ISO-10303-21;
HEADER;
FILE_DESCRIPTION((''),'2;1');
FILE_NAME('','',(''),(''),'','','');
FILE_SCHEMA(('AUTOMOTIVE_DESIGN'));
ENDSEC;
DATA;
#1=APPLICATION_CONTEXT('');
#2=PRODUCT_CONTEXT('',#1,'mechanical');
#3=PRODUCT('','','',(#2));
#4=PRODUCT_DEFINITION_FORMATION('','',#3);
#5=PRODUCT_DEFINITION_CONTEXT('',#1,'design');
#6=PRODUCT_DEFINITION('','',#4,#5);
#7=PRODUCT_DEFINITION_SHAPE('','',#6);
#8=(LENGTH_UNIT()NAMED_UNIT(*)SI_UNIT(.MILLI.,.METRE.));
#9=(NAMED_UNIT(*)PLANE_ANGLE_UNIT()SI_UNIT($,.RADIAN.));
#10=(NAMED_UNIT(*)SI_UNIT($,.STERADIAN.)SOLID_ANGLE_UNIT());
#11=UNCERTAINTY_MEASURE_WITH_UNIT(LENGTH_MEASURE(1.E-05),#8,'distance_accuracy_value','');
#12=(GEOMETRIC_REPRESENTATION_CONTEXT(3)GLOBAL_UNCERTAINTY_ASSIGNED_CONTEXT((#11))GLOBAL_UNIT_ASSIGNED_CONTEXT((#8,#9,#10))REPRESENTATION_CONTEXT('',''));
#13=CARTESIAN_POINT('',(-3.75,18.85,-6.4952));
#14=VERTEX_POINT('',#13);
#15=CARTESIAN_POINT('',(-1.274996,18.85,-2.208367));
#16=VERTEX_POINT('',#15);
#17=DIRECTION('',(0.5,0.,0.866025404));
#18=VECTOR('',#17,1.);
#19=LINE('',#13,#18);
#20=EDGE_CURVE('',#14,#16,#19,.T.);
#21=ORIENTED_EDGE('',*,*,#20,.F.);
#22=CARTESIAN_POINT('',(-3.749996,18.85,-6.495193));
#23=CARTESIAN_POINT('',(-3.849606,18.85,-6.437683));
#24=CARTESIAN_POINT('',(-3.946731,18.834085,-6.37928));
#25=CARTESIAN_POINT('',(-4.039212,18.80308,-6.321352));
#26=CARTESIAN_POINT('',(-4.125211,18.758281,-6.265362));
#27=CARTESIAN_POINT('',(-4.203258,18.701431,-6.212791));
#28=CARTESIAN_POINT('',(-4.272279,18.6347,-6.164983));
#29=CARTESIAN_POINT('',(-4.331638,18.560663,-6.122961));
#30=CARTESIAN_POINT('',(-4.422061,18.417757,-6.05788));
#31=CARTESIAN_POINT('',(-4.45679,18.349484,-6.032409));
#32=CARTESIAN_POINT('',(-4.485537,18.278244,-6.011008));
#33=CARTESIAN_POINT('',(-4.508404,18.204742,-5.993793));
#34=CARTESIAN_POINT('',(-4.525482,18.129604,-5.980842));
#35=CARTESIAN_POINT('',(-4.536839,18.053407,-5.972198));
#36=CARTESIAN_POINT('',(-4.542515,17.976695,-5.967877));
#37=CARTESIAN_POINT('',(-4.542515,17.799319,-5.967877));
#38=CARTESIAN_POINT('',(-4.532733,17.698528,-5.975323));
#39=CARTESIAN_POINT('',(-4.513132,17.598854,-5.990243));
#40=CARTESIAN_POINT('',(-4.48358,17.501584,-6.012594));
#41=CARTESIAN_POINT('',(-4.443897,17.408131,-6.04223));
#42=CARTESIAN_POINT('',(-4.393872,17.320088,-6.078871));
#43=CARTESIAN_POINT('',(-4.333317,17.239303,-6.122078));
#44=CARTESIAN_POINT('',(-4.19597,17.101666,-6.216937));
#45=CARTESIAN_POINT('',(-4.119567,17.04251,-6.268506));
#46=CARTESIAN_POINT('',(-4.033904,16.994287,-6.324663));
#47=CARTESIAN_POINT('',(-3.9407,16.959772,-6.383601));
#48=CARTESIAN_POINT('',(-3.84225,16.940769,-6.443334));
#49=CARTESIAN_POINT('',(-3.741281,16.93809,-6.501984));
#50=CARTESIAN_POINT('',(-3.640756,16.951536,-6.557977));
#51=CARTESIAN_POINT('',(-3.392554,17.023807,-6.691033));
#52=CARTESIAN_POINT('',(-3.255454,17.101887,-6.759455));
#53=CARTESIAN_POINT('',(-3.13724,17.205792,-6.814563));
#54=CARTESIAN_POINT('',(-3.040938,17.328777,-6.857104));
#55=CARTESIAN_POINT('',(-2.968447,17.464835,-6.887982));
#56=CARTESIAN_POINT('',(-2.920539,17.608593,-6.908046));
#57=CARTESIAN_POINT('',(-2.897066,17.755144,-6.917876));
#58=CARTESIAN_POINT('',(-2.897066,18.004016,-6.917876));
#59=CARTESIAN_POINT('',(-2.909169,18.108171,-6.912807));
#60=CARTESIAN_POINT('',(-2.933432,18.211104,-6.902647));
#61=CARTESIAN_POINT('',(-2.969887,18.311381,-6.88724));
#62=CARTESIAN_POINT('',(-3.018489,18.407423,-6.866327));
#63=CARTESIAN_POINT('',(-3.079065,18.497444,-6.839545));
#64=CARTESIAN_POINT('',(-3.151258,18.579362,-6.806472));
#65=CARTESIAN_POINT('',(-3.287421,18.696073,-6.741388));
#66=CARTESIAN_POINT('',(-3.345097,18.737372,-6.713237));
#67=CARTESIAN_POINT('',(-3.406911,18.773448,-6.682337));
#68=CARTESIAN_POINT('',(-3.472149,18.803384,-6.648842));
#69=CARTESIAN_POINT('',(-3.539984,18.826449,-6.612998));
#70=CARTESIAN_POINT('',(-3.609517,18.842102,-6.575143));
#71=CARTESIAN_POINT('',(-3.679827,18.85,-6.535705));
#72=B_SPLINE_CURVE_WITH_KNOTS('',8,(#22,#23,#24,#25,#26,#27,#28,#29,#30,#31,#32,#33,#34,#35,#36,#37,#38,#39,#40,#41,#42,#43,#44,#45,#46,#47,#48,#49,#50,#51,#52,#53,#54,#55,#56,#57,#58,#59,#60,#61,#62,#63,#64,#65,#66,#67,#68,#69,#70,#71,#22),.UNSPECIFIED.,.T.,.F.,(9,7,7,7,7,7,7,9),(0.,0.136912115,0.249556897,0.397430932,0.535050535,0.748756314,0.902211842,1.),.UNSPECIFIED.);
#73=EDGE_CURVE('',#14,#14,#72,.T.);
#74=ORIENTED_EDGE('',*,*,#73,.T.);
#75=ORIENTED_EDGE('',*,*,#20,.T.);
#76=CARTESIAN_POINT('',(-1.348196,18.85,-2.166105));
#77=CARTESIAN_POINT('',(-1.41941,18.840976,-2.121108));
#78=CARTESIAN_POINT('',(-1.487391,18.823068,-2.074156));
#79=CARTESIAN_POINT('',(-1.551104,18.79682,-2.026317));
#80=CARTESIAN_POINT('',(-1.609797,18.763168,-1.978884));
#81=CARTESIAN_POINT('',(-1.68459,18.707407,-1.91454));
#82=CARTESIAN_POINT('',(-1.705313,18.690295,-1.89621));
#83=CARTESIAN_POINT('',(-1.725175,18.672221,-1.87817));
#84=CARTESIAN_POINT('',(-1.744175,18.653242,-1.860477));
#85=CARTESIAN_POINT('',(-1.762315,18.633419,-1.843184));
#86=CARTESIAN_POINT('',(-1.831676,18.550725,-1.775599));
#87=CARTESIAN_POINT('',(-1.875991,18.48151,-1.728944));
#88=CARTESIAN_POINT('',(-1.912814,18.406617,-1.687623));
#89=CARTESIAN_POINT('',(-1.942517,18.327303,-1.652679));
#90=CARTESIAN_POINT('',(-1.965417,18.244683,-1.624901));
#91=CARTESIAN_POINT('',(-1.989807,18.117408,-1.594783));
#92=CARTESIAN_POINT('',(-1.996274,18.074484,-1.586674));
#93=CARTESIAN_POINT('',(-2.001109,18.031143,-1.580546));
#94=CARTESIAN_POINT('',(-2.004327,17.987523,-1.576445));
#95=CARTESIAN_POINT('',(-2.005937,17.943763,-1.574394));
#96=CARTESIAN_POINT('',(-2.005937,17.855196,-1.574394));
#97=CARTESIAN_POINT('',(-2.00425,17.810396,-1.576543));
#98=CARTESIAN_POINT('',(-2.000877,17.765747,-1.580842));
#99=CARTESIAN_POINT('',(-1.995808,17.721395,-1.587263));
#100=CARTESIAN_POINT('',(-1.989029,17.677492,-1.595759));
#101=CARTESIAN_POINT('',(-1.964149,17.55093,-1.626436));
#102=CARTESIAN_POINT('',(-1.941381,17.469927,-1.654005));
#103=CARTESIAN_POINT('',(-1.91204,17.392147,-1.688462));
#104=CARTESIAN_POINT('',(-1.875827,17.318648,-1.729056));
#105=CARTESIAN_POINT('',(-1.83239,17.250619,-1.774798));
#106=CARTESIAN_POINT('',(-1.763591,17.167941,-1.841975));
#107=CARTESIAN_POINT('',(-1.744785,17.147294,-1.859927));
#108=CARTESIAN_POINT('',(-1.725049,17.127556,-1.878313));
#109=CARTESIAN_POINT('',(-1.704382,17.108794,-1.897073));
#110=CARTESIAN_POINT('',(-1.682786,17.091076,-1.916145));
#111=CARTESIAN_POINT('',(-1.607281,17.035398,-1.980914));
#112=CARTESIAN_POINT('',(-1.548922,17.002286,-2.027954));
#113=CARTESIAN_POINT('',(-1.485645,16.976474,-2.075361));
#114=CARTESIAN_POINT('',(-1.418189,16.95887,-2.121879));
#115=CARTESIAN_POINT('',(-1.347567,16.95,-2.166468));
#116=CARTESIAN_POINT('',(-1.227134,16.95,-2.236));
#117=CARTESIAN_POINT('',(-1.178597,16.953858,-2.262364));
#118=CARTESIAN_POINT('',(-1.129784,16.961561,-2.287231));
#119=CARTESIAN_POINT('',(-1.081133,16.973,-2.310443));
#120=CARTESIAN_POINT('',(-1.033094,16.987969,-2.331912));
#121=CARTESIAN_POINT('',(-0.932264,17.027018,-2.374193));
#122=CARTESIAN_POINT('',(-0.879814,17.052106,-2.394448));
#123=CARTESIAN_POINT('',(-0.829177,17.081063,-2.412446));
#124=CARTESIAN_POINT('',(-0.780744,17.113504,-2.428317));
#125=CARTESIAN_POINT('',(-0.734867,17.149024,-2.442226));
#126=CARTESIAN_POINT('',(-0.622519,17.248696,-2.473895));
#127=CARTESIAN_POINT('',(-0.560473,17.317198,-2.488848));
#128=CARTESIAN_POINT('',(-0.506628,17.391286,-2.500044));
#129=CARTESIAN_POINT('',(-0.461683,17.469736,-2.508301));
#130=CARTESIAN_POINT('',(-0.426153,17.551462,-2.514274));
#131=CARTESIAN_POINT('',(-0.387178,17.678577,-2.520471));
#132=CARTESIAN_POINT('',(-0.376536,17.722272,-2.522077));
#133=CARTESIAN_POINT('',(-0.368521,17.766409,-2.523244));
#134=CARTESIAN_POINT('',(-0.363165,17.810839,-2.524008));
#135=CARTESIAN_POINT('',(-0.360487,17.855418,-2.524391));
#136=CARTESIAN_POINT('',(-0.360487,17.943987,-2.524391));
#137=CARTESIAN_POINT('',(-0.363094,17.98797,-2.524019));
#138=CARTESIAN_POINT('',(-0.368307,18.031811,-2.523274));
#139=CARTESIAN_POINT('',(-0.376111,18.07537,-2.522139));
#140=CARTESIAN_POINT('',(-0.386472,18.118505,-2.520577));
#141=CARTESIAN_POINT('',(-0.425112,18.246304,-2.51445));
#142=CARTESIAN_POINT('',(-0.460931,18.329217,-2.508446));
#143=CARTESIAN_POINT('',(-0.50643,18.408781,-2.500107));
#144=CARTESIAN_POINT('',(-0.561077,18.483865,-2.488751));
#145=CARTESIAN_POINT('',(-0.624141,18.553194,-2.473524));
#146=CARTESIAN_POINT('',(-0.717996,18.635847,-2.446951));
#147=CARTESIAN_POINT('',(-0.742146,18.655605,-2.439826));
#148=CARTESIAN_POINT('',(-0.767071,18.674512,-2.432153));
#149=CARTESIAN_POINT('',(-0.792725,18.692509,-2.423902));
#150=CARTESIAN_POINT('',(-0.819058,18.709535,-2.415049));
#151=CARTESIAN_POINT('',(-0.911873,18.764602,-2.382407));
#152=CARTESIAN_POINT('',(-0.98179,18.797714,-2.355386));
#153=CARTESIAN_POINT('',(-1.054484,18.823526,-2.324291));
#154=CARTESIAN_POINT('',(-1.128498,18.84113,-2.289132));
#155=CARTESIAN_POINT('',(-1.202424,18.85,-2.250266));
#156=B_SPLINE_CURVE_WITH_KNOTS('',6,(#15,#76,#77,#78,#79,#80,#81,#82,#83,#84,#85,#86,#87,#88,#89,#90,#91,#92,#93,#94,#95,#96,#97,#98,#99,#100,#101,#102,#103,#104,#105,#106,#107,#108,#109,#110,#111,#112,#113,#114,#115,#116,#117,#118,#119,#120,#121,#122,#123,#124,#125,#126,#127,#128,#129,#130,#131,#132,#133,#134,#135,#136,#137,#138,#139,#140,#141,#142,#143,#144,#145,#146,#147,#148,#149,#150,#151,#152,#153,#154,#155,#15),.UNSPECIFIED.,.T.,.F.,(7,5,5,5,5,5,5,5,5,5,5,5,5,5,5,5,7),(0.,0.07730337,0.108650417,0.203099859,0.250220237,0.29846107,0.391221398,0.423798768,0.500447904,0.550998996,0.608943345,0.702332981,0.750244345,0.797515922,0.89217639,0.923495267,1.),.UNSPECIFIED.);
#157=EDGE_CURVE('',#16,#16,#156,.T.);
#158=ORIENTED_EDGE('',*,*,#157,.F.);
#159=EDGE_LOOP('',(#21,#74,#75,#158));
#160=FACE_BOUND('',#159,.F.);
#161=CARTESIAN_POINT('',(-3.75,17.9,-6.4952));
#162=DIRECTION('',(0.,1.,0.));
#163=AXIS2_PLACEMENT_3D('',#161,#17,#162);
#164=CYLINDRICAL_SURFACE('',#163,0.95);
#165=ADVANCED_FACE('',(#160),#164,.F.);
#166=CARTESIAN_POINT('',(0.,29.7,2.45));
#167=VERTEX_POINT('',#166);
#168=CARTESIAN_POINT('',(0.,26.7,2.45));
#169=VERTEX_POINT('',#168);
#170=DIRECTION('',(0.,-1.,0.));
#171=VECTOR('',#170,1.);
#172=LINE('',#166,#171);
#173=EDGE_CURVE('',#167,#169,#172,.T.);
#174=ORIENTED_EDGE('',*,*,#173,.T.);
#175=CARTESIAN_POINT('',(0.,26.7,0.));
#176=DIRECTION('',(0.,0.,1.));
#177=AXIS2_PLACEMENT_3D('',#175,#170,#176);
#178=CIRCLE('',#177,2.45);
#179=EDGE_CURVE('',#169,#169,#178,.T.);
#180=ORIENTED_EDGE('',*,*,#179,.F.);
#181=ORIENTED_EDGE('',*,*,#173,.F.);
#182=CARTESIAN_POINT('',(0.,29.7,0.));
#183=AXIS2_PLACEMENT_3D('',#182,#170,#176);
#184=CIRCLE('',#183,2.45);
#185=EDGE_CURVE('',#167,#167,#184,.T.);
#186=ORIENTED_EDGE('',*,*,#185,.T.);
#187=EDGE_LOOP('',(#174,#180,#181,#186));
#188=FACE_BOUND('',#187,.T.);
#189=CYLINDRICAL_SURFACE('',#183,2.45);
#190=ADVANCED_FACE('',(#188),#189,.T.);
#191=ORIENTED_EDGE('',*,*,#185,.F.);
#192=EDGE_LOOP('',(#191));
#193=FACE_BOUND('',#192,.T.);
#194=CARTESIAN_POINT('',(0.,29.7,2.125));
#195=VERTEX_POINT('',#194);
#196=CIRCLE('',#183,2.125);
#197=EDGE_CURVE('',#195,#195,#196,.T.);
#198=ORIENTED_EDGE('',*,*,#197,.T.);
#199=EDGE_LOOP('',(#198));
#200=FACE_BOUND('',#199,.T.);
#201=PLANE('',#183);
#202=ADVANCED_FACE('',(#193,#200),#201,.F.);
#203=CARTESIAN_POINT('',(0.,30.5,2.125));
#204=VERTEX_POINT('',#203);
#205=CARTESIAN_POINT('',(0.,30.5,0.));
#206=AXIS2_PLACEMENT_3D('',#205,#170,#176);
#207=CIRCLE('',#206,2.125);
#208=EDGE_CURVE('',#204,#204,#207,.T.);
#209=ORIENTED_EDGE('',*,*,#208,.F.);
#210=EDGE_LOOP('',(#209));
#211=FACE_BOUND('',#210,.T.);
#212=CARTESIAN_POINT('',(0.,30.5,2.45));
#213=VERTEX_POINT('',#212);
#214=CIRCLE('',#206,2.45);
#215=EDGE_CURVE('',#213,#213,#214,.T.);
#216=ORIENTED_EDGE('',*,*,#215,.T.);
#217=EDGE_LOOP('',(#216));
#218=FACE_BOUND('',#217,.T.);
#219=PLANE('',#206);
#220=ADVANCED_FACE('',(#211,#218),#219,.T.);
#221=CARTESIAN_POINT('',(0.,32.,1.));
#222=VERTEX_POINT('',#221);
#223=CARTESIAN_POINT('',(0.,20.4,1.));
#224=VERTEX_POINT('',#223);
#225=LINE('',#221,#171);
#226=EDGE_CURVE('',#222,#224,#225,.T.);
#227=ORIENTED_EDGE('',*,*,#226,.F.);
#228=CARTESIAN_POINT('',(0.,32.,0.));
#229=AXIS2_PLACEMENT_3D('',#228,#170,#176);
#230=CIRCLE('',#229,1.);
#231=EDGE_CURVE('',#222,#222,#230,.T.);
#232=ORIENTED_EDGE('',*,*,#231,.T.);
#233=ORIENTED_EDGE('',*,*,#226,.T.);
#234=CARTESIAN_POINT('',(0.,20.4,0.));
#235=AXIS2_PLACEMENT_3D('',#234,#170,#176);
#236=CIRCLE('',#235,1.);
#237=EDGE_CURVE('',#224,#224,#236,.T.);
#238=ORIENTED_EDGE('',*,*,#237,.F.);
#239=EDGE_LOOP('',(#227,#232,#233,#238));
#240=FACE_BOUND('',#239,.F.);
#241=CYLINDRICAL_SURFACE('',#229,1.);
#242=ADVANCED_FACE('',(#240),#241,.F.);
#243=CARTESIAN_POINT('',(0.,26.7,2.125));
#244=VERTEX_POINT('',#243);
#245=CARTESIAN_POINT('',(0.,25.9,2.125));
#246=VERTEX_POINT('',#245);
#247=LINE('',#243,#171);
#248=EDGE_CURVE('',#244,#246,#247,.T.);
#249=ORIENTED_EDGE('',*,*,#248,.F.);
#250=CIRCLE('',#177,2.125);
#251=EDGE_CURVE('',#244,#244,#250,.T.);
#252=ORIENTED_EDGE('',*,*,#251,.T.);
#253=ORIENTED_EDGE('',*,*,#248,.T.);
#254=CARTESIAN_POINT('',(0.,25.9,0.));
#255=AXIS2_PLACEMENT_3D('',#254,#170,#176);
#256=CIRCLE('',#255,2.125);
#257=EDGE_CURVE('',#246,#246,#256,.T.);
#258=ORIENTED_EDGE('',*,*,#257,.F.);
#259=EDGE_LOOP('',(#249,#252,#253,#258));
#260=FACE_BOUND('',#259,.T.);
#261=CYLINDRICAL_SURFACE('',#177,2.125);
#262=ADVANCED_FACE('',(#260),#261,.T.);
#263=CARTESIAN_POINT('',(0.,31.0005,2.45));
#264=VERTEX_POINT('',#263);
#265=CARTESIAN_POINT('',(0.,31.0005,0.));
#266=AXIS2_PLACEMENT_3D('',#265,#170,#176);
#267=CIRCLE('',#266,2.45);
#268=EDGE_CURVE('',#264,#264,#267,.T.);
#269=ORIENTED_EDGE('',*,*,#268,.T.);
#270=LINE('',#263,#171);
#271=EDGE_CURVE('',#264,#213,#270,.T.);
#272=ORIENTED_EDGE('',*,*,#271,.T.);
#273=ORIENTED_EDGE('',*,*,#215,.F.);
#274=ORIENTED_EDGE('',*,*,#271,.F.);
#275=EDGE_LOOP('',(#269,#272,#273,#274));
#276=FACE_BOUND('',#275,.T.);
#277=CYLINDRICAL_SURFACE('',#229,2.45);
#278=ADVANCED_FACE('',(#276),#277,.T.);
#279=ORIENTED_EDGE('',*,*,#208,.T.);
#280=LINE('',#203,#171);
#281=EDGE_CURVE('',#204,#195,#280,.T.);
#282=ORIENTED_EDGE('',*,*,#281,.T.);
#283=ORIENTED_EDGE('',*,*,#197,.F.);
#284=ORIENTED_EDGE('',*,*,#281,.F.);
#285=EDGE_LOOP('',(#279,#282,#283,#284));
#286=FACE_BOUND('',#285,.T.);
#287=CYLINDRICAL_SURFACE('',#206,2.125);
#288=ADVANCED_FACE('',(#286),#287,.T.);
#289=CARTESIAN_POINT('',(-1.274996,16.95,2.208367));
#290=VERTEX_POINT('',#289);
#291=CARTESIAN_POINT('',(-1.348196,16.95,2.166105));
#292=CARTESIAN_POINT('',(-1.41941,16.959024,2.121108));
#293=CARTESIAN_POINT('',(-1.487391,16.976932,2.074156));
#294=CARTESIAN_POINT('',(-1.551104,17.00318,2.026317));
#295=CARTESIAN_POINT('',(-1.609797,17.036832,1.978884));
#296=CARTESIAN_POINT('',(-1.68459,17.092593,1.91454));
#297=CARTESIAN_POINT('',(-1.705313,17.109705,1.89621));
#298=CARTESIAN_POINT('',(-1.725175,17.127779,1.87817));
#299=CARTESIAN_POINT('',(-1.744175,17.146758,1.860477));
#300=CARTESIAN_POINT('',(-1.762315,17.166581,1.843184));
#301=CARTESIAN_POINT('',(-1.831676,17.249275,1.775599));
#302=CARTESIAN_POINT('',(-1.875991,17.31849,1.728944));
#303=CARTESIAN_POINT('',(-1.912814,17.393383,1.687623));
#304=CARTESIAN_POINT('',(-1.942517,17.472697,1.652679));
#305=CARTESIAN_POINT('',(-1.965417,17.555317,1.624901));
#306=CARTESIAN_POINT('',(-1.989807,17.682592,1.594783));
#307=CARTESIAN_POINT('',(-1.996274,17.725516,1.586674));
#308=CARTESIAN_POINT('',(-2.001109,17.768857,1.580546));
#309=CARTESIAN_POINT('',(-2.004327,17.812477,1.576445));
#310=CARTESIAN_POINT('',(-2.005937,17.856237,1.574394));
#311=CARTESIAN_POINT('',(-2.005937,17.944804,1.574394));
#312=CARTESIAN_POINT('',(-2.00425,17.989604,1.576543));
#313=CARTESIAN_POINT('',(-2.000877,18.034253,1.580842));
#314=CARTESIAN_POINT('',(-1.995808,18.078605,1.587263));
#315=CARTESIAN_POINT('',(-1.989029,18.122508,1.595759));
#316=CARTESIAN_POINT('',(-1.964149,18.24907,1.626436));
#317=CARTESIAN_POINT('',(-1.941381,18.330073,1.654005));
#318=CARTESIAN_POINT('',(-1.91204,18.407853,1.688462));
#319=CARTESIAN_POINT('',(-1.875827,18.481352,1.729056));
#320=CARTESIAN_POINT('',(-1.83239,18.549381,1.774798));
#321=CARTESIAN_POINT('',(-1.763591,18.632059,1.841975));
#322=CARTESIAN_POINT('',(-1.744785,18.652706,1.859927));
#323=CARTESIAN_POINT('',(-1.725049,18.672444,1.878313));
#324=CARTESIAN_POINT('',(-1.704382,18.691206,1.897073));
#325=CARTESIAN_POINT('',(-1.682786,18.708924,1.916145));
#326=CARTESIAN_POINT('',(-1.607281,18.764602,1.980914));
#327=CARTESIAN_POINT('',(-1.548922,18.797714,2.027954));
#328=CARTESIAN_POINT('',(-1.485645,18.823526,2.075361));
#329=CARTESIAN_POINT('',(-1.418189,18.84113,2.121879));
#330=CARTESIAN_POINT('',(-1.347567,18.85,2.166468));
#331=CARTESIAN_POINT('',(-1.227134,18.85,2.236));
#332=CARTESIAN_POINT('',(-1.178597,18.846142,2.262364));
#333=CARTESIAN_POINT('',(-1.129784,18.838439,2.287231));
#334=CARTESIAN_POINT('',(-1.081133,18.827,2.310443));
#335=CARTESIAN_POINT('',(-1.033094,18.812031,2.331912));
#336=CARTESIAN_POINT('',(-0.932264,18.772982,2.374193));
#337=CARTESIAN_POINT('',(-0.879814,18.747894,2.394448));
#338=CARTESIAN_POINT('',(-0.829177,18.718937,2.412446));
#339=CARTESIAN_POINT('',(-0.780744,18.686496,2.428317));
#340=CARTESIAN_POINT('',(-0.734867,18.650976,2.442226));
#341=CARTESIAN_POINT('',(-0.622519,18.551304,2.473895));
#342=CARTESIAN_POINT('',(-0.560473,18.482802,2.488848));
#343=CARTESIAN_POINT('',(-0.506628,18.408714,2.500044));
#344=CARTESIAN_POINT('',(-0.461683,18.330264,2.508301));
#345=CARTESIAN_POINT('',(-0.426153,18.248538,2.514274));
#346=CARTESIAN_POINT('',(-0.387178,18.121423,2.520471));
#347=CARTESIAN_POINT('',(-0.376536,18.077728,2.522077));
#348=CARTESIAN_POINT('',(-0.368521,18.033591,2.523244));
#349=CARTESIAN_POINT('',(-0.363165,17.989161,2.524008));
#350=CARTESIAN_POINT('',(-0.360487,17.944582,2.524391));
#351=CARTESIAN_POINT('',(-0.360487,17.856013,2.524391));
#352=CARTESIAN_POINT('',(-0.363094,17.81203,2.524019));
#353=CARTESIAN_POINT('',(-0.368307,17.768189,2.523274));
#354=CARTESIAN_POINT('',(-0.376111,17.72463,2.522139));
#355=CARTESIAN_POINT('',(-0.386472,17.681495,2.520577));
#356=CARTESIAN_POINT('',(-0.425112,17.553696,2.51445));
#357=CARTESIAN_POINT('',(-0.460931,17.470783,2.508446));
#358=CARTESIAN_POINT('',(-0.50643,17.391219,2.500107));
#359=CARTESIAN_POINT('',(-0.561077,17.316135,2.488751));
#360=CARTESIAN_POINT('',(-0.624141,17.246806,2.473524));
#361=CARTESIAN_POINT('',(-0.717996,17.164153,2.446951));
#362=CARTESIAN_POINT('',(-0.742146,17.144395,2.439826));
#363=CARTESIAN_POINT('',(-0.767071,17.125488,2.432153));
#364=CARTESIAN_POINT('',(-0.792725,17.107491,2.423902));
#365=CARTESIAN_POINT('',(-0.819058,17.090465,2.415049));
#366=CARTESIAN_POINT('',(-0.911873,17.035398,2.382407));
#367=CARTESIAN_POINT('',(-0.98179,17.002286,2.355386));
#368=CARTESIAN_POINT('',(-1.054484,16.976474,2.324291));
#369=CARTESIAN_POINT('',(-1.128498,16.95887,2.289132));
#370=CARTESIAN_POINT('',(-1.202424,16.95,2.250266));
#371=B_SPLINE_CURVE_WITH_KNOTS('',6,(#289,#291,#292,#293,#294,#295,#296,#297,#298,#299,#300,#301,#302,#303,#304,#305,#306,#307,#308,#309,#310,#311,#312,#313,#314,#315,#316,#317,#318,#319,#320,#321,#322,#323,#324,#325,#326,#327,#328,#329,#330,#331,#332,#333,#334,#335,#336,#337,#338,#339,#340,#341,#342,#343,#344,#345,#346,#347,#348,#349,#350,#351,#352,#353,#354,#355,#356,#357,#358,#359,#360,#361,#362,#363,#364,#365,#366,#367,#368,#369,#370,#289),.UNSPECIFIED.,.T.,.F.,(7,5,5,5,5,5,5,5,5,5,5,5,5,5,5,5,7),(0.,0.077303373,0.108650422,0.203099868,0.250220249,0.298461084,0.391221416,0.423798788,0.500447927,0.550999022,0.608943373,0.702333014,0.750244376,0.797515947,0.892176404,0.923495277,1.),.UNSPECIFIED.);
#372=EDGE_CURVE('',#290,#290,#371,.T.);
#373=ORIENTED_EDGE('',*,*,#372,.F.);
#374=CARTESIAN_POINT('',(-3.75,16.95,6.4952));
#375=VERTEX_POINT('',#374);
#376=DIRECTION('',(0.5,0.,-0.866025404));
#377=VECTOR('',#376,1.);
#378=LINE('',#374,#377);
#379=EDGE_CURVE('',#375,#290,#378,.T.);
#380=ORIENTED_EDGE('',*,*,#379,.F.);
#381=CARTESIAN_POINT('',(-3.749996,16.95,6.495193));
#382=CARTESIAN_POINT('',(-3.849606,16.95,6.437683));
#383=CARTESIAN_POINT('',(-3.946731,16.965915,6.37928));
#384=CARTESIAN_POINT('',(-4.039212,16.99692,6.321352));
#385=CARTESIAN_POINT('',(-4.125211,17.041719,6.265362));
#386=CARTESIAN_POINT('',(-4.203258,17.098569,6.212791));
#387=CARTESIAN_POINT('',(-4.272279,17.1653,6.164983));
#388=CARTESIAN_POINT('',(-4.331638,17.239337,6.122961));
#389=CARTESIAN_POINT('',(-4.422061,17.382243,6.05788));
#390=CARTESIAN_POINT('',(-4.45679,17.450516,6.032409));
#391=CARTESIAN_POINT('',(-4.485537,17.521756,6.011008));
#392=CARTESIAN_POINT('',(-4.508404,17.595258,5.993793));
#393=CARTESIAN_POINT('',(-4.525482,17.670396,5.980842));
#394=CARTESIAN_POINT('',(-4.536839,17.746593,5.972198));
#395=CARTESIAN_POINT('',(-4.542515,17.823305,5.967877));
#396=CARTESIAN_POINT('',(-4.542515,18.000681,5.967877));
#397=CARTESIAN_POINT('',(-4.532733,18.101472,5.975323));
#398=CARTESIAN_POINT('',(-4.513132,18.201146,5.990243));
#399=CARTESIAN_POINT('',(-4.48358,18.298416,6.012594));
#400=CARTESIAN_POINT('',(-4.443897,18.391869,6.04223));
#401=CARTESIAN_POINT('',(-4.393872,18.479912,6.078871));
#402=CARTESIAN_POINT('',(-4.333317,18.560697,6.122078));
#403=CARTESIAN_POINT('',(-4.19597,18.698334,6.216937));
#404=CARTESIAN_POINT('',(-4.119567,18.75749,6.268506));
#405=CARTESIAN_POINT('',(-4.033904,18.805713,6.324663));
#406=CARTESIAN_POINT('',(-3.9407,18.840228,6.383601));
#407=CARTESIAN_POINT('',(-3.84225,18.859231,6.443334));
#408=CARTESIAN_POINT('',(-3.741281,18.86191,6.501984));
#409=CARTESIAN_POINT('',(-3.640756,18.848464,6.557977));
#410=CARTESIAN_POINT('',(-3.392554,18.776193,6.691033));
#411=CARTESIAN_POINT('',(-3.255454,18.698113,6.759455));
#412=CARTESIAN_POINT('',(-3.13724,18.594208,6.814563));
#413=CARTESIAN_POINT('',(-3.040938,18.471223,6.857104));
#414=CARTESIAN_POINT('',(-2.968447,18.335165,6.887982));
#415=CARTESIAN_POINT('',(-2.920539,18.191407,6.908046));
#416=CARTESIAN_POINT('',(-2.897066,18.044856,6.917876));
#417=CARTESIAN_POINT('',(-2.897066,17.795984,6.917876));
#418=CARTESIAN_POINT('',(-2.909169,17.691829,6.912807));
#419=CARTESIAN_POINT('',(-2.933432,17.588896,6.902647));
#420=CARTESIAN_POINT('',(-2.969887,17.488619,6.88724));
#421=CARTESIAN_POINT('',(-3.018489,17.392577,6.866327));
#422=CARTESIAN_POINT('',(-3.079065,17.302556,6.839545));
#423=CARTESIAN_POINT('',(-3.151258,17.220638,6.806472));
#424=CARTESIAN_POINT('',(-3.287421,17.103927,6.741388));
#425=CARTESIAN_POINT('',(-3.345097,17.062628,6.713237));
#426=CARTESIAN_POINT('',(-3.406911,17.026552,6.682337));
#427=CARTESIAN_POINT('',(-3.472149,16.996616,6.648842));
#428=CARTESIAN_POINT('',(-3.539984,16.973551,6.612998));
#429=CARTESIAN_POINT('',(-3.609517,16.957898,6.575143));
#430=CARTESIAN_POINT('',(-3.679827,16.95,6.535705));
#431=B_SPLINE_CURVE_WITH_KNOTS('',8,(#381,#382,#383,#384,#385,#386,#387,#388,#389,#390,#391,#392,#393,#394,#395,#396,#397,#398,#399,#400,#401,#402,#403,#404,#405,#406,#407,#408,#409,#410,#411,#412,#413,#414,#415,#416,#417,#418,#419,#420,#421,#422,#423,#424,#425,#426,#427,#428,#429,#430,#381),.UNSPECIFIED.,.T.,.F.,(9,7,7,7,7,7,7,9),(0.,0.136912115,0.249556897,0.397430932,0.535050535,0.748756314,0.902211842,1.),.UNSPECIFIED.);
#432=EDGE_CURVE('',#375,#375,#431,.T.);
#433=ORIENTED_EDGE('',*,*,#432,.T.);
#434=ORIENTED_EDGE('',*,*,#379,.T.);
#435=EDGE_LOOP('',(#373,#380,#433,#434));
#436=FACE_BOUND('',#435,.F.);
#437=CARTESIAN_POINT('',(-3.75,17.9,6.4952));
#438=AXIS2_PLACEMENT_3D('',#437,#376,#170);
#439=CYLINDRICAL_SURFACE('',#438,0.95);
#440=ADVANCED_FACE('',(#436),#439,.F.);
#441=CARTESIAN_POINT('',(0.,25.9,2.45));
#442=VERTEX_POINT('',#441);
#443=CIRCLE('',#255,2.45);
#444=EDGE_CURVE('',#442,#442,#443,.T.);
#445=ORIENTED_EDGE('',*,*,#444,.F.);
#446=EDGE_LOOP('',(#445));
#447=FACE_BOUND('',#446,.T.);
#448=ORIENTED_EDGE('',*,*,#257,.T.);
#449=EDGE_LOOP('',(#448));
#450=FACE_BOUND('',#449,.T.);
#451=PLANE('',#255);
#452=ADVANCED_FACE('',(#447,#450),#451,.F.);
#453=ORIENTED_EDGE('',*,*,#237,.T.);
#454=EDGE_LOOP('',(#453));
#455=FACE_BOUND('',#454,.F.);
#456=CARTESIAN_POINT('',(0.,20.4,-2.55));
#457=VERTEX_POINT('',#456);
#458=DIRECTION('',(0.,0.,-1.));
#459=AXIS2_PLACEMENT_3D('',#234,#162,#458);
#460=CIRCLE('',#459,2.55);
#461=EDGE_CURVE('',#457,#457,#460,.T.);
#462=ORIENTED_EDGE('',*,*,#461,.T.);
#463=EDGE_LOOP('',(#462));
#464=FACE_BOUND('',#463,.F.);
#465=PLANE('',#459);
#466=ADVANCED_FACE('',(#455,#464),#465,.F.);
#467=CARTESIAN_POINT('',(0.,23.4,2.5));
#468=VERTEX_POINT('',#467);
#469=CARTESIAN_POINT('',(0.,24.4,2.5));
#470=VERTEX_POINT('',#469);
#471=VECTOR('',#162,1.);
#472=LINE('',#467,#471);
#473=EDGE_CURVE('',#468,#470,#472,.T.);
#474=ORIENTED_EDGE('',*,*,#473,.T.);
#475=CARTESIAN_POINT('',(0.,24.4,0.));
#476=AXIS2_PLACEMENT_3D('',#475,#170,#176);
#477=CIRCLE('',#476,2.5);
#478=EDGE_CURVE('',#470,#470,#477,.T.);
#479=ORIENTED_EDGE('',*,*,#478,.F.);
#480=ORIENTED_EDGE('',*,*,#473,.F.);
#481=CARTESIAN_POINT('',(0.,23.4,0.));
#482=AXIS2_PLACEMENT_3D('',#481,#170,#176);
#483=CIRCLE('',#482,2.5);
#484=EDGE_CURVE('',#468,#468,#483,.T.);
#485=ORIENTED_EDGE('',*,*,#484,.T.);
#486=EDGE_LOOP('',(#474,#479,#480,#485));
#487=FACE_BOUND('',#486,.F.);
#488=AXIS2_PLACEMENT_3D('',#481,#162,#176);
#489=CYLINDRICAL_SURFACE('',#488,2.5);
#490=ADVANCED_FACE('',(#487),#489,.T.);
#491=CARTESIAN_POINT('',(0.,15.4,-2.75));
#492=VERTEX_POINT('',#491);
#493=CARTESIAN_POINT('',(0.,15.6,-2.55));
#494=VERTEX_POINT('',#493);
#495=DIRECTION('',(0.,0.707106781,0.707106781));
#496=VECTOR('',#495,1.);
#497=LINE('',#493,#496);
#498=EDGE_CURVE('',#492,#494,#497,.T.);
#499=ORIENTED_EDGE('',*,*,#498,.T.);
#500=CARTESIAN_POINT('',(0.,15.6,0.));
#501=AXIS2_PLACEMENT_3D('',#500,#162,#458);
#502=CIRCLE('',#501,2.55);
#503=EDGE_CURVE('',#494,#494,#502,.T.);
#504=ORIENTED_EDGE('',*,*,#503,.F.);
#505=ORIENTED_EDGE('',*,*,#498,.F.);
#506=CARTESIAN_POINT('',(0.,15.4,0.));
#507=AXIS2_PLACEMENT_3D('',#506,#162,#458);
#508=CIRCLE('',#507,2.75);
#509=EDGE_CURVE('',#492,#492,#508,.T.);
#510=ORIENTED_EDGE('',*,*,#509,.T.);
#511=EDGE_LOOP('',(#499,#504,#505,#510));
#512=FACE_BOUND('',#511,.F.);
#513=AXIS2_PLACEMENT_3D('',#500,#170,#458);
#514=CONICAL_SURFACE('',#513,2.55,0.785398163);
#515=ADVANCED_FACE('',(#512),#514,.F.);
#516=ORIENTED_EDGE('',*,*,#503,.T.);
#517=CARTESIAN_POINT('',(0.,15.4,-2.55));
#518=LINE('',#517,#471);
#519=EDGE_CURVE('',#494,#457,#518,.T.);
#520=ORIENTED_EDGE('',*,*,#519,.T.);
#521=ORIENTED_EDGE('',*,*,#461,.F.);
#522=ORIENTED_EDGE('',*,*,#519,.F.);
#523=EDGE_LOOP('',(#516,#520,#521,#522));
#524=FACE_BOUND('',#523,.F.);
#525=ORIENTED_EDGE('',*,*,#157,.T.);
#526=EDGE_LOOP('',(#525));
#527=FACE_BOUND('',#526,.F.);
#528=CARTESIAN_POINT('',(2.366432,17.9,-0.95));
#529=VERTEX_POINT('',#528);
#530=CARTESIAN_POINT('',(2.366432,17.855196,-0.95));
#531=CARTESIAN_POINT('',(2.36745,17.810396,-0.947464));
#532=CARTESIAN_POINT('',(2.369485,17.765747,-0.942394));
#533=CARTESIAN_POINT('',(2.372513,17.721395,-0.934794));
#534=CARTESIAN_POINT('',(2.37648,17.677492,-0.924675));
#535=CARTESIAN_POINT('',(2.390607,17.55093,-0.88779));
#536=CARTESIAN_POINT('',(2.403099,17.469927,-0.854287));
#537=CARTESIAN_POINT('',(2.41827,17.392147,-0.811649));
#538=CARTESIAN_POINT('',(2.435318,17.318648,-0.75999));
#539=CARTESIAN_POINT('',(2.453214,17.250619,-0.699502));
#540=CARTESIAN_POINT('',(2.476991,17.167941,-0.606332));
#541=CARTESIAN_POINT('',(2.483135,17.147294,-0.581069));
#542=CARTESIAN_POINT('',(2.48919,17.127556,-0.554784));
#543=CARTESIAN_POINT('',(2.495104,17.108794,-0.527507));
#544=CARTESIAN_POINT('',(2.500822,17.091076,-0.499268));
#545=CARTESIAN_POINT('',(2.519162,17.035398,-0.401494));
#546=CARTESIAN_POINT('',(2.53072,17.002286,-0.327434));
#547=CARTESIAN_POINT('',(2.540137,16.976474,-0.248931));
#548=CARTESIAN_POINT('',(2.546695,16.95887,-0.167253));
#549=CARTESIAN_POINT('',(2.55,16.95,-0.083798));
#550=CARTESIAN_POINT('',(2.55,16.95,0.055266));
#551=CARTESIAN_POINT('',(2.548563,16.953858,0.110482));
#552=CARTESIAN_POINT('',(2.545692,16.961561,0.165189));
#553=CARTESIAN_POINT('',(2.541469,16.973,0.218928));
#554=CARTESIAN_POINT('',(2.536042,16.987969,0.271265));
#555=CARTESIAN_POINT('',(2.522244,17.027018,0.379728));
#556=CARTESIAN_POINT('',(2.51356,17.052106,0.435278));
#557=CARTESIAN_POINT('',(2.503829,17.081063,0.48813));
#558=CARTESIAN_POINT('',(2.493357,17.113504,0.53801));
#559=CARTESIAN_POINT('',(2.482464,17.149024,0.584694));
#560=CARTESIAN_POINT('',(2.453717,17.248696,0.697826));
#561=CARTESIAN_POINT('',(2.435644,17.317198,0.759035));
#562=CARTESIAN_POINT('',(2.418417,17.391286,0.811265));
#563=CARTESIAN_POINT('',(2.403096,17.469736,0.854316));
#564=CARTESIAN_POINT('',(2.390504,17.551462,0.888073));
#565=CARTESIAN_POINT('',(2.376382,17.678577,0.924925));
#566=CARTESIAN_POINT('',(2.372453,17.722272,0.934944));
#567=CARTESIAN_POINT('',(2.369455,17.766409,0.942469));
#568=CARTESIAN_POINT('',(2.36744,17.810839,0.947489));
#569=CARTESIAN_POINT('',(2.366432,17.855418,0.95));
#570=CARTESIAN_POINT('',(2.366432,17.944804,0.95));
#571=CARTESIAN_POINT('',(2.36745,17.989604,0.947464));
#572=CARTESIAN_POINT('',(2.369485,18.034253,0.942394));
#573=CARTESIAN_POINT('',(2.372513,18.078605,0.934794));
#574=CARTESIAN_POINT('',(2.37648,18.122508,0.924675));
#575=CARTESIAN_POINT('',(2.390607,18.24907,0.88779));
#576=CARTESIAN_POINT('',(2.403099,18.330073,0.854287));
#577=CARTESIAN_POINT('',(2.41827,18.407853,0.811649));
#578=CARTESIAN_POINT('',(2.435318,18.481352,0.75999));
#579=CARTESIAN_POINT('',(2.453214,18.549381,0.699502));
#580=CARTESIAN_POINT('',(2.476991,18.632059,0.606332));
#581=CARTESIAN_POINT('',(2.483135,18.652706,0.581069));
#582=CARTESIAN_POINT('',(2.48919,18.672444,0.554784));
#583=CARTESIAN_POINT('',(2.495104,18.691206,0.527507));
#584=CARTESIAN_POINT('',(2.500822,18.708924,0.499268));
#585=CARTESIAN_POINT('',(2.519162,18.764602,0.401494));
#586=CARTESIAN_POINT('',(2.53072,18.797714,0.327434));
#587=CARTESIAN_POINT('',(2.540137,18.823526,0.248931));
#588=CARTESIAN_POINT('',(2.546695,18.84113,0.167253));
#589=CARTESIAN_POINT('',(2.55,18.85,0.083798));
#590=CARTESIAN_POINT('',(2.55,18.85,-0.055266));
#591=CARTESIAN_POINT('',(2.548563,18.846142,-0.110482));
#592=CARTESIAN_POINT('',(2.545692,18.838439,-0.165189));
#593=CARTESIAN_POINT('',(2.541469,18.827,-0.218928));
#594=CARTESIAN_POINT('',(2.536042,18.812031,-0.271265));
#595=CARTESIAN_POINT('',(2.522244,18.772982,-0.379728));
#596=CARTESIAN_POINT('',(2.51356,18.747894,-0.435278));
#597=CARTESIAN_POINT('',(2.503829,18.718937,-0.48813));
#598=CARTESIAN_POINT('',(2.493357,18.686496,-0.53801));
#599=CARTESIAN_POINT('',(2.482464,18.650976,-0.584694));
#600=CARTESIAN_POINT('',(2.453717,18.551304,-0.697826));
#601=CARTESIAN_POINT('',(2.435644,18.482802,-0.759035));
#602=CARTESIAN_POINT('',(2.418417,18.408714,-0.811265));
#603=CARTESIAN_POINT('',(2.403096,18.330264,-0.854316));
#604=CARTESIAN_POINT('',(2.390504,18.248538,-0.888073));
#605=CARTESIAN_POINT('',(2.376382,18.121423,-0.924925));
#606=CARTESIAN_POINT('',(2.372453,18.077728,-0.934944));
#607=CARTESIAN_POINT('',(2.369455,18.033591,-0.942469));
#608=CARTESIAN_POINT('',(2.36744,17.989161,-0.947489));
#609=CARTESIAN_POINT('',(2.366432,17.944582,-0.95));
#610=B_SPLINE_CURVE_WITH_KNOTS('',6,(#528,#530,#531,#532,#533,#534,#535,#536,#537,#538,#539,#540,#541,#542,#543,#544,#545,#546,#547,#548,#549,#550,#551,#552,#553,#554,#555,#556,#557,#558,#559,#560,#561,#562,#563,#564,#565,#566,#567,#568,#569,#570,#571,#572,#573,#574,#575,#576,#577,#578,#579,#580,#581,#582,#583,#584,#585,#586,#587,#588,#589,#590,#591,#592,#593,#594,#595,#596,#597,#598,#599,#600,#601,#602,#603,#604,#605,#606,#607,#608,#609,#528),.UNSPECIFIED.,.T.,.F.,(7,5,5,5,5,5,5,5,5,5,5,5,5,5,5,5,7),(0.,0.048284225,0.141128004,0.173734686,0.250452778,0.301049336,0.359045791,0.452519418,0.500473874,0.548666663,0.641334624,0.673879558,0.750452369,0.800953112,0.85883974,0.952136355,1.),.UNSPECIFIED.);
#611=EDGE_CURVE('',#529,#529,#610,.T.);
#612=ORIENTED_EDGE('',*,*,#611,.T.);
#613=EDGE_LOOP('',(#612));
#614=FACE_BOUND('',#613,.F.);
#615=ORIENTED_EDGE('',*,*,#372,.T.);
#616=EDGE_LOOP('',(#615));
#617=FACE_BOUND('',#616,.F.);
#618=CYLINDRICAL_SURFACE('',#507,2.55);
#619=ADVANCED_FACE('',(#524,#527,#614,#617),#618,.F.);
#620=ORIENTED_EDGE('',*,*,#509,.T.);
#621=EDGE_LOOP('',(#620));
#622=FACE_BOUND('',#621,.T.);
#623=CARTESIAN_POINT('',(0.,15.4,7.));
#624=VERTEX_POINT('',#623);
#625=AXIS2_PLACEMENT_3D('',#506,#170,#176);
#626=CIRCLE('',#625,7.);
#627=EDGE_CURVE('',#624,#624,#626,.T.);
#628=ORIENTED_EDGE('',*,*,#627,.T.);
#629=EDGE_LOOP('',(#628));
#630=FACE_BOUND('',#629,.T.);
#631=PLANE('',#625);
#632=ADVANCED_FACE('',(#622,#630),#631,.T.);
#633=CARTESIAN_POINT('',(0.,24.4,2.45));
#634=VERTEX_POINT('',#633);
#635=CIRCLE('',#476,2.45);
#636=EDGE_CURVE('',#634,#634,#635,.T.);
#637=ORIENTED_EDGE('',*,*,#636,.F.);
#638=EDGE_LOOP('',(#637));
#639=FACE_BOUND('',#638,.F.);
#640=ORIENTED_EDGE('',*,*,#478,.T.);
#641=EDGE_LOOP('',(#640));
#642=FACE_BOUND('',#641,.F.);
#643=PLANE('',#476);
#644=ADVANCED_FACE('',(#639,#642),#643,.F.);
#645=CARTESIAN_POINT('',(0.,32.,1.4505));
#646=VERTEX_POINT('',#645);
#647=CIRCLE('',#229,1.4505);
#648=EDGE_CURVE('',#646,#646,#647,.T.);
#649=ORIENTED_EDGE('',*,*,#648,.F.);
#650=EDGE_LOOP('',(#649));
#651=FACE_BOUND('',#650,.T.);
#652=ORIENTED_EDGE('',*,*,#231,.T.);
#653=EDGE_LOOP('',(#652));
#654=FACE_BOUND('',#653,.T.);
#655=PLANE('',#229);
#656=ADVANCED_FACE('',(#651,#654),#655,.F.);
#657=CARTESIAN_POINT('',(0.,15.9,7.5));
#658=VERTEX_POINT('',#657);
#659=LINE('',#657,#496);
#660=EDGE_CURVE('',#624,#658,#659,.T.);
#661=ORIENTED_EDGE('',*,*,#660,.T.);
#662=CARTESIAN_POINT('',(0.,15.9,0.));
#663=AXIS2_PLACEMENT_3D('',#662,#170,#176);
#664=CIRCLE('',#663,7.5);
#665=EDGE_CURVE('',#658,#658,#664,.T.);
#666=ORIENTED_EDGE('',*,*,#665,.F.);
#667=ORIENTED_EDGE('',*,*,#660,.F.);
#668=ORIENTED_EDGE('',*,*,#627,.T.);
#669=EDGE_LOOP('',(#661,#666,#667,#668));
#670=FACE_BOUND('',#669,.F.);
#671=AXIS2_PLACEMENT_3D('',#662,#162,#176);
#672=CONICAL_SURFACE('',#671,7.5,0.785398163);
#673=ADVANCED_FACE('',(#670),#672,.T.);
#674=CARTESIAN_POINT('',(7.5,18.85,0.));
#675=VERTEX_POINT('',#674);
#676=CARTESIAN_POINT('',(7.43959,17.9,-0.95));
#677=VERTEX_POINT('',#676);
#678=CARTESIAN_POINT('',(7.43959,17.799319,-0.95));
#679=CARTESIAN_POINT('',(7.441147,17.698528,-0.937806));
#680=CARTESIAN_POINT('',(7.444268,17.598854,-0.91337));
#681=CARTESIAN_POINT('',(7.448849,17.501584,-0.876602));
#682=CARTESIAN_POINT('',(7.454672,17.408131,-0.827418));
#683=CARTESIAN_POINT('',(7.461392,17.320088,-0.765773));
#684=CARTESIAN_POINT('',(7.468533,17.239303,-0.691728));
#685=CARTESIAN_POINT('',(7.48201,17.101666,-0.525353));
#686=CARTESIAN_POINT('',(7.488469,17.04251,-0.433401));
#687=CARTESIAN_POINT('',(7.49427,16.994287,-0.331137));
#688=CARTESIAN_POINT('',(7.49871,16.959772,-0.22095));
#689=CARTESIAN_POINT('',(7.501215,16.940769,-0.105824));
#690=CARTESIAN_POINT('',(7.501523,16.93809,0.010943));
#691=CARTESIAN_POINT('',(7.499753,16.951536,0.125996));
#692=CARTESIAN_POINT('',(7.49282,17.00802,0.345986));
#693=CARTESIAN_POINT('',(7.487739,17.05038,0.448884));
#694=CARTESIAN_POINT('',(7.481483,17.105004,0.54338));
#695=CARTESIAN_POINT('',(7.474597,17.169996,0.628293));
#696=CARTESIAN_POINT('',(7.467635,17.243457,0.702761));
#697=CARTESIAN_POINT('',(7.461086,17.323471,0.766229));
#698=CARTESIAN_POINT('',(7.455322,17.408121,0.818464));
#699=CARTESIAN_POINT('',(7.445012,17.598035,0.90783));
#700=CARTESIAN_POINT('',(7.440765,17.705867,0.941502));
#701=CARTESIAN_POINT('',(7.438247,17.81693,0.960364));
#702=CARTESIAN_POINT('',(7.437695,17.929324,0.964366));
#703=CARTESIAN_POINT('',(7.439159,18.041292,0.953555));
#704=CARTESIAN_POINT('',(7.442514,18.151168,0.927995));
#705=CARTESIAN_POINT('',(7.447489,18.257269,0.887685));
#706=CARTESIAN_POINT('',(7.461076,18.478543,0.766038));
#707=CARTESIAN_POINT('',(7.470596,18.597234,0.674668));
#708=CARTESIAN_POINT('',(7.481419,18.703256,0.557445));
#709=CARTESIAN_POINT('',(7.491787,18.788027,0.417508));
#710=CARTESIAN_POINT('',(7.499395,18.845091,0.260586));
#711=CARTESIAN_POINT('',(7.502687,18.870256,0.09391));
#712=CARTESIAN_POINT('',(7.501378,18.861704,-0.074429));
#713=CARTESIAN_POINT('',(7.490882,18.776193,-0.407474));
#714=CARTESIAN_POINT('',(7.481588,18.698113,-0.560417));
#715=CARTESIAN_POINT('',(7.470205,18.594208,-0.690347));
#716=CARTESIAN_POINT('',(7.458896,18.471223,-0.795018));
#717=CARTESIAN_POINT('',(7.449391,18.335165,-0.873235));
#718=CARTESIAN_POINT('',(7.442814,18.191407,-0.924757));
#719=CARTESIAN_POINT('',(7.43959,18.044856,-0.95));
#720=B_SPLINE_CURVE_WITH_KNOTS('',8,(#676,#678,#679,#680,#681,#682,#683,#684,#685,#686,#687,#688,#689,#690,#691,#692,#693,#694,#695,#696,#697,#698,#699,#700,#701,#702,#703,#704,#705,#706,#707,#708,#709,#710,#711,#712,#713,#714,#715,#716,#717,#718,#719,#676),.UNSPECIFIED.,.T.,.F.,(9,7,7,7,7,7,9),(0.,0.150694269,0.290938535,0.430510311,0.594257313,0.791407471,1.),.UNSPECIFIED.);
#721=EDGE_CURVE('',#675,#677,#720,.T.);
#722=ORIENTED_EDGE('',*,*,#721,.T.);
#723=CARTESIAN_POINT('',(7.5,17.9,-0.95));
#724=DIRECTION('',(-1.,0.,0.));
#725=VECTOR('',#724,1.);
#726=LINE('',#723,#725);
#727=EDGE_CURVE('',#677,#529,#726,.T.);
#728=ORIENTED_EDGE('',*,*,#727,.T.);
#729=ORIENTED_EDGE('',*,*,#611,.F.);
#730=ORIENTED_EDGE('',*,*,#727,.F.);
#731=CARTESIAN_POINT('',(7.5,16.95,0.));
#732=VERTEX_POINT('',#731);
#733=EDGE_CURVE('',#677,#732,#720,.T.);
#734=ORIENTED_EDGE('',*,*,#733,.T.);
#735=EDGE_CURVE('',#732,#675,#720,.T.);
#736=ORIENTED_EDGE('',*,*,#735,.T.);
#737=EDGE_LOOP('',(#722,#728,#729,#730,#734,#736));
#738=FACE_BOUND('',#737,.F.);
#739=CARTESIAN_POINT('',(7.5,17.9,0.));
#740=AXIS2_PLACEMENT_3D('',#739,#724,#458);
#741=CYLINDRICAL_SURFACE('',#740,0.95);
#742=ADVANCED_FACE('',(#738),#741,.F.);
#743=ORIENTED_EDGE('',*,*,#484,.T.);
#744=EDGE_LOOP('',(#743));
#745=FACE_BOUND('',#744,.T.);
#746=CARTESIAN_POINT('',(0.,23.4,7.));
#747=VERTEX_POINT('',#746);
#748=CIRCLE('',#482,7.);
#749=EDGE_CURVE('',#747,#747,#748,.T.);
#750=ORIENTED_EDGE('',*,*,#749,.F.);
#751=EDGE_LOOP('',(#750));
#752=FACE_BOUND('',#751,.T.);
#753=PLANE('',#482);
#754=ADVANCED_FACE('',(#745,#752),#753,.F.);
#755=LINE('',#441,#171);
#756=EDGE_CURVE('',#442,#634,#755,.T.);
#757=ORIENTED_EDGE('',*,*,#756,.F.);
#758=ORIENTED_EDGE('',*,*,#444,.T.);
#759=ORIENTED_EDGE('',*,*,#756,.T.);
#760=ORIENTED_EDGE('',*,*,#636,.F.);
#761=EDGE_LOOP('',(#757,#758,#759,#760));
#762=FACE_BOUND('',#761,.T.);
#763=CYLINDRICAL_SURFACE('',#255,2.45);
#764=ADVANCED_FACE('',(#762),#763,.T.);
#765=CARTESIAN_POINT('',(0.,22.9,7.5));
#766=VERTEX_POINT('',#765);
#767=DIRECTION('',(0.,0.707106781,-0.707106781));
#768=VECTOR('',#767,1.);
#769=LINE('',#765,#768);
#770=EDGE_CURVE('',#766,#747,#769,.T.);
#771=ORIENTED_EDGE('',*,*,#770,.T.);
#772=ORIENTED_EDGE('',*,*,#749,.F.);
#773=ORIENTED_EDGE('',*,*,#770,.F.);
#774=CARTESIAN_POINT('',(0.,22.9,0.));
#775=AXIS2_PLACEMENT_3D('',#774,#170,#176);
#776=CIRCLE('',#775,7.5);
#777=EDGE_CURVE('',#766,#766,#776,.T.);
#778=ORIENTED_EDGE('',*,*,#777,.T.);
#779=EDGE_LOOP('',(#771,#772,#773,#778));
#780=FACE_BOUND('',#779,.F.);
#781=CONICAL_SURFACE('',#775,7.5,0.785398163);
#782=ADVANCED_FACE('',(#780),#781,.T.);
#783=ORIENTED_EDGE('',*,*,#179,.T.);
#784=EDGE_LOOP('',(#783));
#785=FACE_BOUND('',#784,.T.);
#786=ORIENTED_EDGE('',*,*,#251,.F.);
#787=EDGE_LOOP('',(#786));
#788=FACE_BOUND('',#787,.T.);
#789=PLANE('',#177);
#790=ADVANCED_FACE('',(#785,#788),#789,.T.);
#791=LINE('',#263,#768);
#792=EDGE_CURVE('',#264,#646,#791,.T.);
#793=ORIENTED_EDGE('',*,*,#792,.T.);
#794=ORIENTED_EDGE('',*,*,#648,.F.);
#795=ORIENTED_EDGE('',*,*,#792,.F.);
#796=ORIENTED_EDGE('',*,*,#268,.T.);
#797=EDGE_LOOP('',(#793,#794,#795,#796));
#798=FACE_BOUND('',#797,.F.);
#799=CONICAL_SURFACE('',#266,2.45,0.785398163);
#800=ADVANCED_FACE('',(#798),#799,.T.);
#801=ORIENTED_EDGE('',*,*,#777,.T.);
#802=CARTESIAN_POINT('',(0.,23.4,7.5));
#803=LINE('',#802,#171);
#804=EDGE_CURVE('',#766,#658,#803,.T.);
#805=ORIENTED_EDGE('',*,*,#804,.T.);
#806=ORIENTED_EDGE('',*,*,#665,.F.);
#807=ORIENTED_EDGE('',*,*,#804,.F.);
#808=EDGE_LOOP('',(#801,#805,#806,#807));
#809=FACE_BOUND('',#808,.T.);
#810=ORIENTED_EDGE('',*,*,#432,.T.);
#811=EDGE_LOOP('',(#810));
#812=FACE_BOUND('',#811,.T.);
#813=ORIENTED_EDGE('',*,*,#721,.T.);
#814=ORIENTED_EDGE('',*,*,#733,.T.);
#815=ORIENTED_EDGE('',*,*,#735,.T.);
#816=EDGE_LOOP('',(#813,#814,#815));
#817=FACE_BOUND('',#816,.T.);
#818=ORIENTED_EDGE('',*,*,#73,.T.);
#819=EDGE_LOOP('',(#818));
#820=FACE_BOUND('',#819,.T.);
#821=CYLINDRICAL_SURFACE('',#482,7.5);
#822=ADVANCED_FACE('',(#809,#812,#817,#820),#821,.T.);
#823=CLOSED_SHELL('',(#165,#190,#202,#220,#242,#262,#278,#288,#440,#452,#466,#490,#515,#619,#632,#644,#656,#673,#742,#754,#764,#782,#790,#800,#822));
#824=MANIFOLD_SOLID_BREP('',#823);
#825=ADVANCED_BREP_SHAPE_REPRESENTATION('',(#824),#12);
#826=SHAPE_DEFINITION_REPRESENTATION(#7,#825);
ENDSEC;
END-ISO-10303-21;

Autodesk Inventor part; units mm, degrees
sketch "Sketch1" plane through (0, 0, 0) normal (1, 0, 0) x (0, 1, 0)
  line L0 (32, 0) -> (32, 2.45)
  line L1 (32, 2.45) -> (30.5, 2.45)
  line L2 (30.5, 2.45) -> (30.5, 2.125)
  line L3 (30.5, 2.125) -> (29.7, 2.125)
  line L4 (29.7, 2.125) -> (29.7, 2.45)
  line L5 (29.7, 2.45) -> (26.7, 2.45)
  line L6 (26.7, 2.45) -> (26.7, 2.125)
  line L7 (26.7, 2.125) -> (25.9, 2.125)
  line L8 (25.9, 2.125) -> (25.9, 2.45)
  line L9 (25.9, 2.45) -> (24.4, 2.45)
  line L10 (23.4, 2.5) -> (24.4, 2.5)
  line L11 (24.4, 2.5) -> (24.4, 2.45)
  line L12 (23.4, 2.5) -> (23.4, 7.5)
  line L13 (32, 2.45) -> (31, 2.45)
  line L14 (32, 2.45) -> (32, 1.45)
  line L15 (23.4, 7.5) -> (15.4, 7.5)
  line L16 (15.4, 7.5) -> (15.4, 0)
  line L17 (32, 0) -> (15.4, 0)
  point P0 (0, 0)
  dimension "d345" = 1.5
  dimension "d346" = 0.325
  dimension "d347" = 0.8
  dimension "d348" = 3
  dimension "d349" = 0.325
  dimension "d350" = 0.8
  dimension "d353" = 1
  dimension "d354" = 1
  dimension "d355" = 1
  dimension "d401" = 8
  dimension "d402" = 16.6
revolve "Revolution1" add sketch "Sketch1" angle 360 about axis through (0, 32, 0) along (0, -1, 0)
chamfer "Chamfer8" distance 1 angle 45 1 edges at (0, 32, -2.45)
sketch "Sketch13" plane through (0, 32, 0) normal (0, 1, 0) x (1, 0, 0)
  circle A0 centre (0, 0) radius 1
  point P0 (0, 0)
  dimension "d359" = 2
hole "Hole10" at (0, 32, 0) direction (0, -1, 0) diameter 2 end through all
ref_plane "Work Plane8" through (0, 26.3, 0) normal (0, 1, 0) x (1, 0, 0)
ref_plane "Work Plane9" through (0, 30.1, 0) normal (0, 1, 0) x (1, 0, 0)
sketch "Sketch16" plane through (0, 15.4, 0) normal (0, -1, 0) x (1, 0, 0)
  circle A0 centre (0, 0) radius 2.55
  dimension "d404" = 5.1
hole "Hole12" at (0, 15.4, 0) direction (0, 1, 0) diameter 5.1 depth 5
sketch "Sketch19" plane through (0, 15.4, 0) normal (0, -1, 0) x (1, 0, 0)
  circle A0 centre (0, 0) radius 7.5 projected
  line L0 (0, 0) -> (7.5, 0)
  line L1 (0, 0) -> (-3.75, -6.4952)
  line L2 (0, 0) -> (7.5, 0) construction
  line L3 (0, 0) -> (-3.75, 6.4952)
  line L4 (0, 0) -> (7.5, 0) construction
  point P0 (0, 0)
  dimension "d423" = 7.5
  dimension "d424" = 120
  dimension "d425" = 7.5
  dimension "d426" = 120
ref_plane "Work Plane12" through (7.5, 15.4, 0) normal (1, 0, 0) x (0, 1, 0)
ref_plane "Work Plane13" through (-3.75, 15.4, 6.4952) normal (-0.5, 0, 0.866) x (0, -1, 0)
ref_plane "Work Plane14" through (-3.75, 15.4, -6.4952) normal (-0.5, 0, -0.866) x (0, -1, 0)
sketch "Sketch20" plane through (-3.75, 15.4, -6.4952) normal (-0.5, 0, -0.866) x (0, -1, 0)
  line L0 (0, -7.5) -> (0, 7.5) projected
  line L1 (0, 0) -> (-2.5, 0)
  point P0 (15.4, 0)
  dimension "d427" = 2.5
sketch "Sketch21" plane through (-3.75, 15.4, 6.4952) normal (-0.5, 0, 0.866) x (0, -1, 0)
  line L0 (0, -7.5) -> (0, 7.5) projected
  line L1 (0, 0) -> (-2.5, 0)
  point P0 (15.4, 0)
  dimension "d428" = 2.5
sketch "Sketch22" plane through (7.5, 15.4, 0) normal (1, 0, 0) x (0, 1, 0)
  line L0 (0, 0) -> (2.5, 0)
  point P0 (-15.4, 0)
  dimension "d429" = 2.5
hole "Hole14" at (-3.75, 17.9, 6.4952) direction (0.5, 0, -0.866) diameter 1.9 depth 6
hole "Hole15" at (-3.75, 17.9, -6.4952) direction (0.5, 0, 0.866) diameter 1.9 depth 6
hole "Hole16" at (7.5, 17.9, 0) direction (-1, 0, 0) diameter 1.9 depth 6
thread "Thread25" size "M2x0.4" class "6H" standard "ANSI Metric M Profile" full length
thread "Thread26" size "M2x0.4" class "6H" standard "ANSI Metric M Profile" full length
thread "Thread27" size "M2x0.4" class "6H" standard "ANSI Metric M Profile" full length
chamfer "Chamfer9" distance 0.5 angle 45 2 edges at (0, 23.4, -7.5) (0, 15.4, -7.5)
chamfer "Chamfer10" distance 0.2 angle 45 1 edges at (0, 15.4, 2.55)
ref_plane "Work Plane15" through (-1.25, 15.4, 2.1651) normal (-0.5, 0, 0.866) x (0, -1, 0)
ref_plane "Work Plane16" through (2.5, 15.4, 0) normal (1, 0, 0) x (0, 1, 0)
ref_plane "Work Plane17" through (-1.25, 15.4, -2.1651) normal (-0.5, 0, -0.866) x (0, -1, 0)
properties part number "None_Magnet_Extender_Split_Top" material "Aluminum 6061"
